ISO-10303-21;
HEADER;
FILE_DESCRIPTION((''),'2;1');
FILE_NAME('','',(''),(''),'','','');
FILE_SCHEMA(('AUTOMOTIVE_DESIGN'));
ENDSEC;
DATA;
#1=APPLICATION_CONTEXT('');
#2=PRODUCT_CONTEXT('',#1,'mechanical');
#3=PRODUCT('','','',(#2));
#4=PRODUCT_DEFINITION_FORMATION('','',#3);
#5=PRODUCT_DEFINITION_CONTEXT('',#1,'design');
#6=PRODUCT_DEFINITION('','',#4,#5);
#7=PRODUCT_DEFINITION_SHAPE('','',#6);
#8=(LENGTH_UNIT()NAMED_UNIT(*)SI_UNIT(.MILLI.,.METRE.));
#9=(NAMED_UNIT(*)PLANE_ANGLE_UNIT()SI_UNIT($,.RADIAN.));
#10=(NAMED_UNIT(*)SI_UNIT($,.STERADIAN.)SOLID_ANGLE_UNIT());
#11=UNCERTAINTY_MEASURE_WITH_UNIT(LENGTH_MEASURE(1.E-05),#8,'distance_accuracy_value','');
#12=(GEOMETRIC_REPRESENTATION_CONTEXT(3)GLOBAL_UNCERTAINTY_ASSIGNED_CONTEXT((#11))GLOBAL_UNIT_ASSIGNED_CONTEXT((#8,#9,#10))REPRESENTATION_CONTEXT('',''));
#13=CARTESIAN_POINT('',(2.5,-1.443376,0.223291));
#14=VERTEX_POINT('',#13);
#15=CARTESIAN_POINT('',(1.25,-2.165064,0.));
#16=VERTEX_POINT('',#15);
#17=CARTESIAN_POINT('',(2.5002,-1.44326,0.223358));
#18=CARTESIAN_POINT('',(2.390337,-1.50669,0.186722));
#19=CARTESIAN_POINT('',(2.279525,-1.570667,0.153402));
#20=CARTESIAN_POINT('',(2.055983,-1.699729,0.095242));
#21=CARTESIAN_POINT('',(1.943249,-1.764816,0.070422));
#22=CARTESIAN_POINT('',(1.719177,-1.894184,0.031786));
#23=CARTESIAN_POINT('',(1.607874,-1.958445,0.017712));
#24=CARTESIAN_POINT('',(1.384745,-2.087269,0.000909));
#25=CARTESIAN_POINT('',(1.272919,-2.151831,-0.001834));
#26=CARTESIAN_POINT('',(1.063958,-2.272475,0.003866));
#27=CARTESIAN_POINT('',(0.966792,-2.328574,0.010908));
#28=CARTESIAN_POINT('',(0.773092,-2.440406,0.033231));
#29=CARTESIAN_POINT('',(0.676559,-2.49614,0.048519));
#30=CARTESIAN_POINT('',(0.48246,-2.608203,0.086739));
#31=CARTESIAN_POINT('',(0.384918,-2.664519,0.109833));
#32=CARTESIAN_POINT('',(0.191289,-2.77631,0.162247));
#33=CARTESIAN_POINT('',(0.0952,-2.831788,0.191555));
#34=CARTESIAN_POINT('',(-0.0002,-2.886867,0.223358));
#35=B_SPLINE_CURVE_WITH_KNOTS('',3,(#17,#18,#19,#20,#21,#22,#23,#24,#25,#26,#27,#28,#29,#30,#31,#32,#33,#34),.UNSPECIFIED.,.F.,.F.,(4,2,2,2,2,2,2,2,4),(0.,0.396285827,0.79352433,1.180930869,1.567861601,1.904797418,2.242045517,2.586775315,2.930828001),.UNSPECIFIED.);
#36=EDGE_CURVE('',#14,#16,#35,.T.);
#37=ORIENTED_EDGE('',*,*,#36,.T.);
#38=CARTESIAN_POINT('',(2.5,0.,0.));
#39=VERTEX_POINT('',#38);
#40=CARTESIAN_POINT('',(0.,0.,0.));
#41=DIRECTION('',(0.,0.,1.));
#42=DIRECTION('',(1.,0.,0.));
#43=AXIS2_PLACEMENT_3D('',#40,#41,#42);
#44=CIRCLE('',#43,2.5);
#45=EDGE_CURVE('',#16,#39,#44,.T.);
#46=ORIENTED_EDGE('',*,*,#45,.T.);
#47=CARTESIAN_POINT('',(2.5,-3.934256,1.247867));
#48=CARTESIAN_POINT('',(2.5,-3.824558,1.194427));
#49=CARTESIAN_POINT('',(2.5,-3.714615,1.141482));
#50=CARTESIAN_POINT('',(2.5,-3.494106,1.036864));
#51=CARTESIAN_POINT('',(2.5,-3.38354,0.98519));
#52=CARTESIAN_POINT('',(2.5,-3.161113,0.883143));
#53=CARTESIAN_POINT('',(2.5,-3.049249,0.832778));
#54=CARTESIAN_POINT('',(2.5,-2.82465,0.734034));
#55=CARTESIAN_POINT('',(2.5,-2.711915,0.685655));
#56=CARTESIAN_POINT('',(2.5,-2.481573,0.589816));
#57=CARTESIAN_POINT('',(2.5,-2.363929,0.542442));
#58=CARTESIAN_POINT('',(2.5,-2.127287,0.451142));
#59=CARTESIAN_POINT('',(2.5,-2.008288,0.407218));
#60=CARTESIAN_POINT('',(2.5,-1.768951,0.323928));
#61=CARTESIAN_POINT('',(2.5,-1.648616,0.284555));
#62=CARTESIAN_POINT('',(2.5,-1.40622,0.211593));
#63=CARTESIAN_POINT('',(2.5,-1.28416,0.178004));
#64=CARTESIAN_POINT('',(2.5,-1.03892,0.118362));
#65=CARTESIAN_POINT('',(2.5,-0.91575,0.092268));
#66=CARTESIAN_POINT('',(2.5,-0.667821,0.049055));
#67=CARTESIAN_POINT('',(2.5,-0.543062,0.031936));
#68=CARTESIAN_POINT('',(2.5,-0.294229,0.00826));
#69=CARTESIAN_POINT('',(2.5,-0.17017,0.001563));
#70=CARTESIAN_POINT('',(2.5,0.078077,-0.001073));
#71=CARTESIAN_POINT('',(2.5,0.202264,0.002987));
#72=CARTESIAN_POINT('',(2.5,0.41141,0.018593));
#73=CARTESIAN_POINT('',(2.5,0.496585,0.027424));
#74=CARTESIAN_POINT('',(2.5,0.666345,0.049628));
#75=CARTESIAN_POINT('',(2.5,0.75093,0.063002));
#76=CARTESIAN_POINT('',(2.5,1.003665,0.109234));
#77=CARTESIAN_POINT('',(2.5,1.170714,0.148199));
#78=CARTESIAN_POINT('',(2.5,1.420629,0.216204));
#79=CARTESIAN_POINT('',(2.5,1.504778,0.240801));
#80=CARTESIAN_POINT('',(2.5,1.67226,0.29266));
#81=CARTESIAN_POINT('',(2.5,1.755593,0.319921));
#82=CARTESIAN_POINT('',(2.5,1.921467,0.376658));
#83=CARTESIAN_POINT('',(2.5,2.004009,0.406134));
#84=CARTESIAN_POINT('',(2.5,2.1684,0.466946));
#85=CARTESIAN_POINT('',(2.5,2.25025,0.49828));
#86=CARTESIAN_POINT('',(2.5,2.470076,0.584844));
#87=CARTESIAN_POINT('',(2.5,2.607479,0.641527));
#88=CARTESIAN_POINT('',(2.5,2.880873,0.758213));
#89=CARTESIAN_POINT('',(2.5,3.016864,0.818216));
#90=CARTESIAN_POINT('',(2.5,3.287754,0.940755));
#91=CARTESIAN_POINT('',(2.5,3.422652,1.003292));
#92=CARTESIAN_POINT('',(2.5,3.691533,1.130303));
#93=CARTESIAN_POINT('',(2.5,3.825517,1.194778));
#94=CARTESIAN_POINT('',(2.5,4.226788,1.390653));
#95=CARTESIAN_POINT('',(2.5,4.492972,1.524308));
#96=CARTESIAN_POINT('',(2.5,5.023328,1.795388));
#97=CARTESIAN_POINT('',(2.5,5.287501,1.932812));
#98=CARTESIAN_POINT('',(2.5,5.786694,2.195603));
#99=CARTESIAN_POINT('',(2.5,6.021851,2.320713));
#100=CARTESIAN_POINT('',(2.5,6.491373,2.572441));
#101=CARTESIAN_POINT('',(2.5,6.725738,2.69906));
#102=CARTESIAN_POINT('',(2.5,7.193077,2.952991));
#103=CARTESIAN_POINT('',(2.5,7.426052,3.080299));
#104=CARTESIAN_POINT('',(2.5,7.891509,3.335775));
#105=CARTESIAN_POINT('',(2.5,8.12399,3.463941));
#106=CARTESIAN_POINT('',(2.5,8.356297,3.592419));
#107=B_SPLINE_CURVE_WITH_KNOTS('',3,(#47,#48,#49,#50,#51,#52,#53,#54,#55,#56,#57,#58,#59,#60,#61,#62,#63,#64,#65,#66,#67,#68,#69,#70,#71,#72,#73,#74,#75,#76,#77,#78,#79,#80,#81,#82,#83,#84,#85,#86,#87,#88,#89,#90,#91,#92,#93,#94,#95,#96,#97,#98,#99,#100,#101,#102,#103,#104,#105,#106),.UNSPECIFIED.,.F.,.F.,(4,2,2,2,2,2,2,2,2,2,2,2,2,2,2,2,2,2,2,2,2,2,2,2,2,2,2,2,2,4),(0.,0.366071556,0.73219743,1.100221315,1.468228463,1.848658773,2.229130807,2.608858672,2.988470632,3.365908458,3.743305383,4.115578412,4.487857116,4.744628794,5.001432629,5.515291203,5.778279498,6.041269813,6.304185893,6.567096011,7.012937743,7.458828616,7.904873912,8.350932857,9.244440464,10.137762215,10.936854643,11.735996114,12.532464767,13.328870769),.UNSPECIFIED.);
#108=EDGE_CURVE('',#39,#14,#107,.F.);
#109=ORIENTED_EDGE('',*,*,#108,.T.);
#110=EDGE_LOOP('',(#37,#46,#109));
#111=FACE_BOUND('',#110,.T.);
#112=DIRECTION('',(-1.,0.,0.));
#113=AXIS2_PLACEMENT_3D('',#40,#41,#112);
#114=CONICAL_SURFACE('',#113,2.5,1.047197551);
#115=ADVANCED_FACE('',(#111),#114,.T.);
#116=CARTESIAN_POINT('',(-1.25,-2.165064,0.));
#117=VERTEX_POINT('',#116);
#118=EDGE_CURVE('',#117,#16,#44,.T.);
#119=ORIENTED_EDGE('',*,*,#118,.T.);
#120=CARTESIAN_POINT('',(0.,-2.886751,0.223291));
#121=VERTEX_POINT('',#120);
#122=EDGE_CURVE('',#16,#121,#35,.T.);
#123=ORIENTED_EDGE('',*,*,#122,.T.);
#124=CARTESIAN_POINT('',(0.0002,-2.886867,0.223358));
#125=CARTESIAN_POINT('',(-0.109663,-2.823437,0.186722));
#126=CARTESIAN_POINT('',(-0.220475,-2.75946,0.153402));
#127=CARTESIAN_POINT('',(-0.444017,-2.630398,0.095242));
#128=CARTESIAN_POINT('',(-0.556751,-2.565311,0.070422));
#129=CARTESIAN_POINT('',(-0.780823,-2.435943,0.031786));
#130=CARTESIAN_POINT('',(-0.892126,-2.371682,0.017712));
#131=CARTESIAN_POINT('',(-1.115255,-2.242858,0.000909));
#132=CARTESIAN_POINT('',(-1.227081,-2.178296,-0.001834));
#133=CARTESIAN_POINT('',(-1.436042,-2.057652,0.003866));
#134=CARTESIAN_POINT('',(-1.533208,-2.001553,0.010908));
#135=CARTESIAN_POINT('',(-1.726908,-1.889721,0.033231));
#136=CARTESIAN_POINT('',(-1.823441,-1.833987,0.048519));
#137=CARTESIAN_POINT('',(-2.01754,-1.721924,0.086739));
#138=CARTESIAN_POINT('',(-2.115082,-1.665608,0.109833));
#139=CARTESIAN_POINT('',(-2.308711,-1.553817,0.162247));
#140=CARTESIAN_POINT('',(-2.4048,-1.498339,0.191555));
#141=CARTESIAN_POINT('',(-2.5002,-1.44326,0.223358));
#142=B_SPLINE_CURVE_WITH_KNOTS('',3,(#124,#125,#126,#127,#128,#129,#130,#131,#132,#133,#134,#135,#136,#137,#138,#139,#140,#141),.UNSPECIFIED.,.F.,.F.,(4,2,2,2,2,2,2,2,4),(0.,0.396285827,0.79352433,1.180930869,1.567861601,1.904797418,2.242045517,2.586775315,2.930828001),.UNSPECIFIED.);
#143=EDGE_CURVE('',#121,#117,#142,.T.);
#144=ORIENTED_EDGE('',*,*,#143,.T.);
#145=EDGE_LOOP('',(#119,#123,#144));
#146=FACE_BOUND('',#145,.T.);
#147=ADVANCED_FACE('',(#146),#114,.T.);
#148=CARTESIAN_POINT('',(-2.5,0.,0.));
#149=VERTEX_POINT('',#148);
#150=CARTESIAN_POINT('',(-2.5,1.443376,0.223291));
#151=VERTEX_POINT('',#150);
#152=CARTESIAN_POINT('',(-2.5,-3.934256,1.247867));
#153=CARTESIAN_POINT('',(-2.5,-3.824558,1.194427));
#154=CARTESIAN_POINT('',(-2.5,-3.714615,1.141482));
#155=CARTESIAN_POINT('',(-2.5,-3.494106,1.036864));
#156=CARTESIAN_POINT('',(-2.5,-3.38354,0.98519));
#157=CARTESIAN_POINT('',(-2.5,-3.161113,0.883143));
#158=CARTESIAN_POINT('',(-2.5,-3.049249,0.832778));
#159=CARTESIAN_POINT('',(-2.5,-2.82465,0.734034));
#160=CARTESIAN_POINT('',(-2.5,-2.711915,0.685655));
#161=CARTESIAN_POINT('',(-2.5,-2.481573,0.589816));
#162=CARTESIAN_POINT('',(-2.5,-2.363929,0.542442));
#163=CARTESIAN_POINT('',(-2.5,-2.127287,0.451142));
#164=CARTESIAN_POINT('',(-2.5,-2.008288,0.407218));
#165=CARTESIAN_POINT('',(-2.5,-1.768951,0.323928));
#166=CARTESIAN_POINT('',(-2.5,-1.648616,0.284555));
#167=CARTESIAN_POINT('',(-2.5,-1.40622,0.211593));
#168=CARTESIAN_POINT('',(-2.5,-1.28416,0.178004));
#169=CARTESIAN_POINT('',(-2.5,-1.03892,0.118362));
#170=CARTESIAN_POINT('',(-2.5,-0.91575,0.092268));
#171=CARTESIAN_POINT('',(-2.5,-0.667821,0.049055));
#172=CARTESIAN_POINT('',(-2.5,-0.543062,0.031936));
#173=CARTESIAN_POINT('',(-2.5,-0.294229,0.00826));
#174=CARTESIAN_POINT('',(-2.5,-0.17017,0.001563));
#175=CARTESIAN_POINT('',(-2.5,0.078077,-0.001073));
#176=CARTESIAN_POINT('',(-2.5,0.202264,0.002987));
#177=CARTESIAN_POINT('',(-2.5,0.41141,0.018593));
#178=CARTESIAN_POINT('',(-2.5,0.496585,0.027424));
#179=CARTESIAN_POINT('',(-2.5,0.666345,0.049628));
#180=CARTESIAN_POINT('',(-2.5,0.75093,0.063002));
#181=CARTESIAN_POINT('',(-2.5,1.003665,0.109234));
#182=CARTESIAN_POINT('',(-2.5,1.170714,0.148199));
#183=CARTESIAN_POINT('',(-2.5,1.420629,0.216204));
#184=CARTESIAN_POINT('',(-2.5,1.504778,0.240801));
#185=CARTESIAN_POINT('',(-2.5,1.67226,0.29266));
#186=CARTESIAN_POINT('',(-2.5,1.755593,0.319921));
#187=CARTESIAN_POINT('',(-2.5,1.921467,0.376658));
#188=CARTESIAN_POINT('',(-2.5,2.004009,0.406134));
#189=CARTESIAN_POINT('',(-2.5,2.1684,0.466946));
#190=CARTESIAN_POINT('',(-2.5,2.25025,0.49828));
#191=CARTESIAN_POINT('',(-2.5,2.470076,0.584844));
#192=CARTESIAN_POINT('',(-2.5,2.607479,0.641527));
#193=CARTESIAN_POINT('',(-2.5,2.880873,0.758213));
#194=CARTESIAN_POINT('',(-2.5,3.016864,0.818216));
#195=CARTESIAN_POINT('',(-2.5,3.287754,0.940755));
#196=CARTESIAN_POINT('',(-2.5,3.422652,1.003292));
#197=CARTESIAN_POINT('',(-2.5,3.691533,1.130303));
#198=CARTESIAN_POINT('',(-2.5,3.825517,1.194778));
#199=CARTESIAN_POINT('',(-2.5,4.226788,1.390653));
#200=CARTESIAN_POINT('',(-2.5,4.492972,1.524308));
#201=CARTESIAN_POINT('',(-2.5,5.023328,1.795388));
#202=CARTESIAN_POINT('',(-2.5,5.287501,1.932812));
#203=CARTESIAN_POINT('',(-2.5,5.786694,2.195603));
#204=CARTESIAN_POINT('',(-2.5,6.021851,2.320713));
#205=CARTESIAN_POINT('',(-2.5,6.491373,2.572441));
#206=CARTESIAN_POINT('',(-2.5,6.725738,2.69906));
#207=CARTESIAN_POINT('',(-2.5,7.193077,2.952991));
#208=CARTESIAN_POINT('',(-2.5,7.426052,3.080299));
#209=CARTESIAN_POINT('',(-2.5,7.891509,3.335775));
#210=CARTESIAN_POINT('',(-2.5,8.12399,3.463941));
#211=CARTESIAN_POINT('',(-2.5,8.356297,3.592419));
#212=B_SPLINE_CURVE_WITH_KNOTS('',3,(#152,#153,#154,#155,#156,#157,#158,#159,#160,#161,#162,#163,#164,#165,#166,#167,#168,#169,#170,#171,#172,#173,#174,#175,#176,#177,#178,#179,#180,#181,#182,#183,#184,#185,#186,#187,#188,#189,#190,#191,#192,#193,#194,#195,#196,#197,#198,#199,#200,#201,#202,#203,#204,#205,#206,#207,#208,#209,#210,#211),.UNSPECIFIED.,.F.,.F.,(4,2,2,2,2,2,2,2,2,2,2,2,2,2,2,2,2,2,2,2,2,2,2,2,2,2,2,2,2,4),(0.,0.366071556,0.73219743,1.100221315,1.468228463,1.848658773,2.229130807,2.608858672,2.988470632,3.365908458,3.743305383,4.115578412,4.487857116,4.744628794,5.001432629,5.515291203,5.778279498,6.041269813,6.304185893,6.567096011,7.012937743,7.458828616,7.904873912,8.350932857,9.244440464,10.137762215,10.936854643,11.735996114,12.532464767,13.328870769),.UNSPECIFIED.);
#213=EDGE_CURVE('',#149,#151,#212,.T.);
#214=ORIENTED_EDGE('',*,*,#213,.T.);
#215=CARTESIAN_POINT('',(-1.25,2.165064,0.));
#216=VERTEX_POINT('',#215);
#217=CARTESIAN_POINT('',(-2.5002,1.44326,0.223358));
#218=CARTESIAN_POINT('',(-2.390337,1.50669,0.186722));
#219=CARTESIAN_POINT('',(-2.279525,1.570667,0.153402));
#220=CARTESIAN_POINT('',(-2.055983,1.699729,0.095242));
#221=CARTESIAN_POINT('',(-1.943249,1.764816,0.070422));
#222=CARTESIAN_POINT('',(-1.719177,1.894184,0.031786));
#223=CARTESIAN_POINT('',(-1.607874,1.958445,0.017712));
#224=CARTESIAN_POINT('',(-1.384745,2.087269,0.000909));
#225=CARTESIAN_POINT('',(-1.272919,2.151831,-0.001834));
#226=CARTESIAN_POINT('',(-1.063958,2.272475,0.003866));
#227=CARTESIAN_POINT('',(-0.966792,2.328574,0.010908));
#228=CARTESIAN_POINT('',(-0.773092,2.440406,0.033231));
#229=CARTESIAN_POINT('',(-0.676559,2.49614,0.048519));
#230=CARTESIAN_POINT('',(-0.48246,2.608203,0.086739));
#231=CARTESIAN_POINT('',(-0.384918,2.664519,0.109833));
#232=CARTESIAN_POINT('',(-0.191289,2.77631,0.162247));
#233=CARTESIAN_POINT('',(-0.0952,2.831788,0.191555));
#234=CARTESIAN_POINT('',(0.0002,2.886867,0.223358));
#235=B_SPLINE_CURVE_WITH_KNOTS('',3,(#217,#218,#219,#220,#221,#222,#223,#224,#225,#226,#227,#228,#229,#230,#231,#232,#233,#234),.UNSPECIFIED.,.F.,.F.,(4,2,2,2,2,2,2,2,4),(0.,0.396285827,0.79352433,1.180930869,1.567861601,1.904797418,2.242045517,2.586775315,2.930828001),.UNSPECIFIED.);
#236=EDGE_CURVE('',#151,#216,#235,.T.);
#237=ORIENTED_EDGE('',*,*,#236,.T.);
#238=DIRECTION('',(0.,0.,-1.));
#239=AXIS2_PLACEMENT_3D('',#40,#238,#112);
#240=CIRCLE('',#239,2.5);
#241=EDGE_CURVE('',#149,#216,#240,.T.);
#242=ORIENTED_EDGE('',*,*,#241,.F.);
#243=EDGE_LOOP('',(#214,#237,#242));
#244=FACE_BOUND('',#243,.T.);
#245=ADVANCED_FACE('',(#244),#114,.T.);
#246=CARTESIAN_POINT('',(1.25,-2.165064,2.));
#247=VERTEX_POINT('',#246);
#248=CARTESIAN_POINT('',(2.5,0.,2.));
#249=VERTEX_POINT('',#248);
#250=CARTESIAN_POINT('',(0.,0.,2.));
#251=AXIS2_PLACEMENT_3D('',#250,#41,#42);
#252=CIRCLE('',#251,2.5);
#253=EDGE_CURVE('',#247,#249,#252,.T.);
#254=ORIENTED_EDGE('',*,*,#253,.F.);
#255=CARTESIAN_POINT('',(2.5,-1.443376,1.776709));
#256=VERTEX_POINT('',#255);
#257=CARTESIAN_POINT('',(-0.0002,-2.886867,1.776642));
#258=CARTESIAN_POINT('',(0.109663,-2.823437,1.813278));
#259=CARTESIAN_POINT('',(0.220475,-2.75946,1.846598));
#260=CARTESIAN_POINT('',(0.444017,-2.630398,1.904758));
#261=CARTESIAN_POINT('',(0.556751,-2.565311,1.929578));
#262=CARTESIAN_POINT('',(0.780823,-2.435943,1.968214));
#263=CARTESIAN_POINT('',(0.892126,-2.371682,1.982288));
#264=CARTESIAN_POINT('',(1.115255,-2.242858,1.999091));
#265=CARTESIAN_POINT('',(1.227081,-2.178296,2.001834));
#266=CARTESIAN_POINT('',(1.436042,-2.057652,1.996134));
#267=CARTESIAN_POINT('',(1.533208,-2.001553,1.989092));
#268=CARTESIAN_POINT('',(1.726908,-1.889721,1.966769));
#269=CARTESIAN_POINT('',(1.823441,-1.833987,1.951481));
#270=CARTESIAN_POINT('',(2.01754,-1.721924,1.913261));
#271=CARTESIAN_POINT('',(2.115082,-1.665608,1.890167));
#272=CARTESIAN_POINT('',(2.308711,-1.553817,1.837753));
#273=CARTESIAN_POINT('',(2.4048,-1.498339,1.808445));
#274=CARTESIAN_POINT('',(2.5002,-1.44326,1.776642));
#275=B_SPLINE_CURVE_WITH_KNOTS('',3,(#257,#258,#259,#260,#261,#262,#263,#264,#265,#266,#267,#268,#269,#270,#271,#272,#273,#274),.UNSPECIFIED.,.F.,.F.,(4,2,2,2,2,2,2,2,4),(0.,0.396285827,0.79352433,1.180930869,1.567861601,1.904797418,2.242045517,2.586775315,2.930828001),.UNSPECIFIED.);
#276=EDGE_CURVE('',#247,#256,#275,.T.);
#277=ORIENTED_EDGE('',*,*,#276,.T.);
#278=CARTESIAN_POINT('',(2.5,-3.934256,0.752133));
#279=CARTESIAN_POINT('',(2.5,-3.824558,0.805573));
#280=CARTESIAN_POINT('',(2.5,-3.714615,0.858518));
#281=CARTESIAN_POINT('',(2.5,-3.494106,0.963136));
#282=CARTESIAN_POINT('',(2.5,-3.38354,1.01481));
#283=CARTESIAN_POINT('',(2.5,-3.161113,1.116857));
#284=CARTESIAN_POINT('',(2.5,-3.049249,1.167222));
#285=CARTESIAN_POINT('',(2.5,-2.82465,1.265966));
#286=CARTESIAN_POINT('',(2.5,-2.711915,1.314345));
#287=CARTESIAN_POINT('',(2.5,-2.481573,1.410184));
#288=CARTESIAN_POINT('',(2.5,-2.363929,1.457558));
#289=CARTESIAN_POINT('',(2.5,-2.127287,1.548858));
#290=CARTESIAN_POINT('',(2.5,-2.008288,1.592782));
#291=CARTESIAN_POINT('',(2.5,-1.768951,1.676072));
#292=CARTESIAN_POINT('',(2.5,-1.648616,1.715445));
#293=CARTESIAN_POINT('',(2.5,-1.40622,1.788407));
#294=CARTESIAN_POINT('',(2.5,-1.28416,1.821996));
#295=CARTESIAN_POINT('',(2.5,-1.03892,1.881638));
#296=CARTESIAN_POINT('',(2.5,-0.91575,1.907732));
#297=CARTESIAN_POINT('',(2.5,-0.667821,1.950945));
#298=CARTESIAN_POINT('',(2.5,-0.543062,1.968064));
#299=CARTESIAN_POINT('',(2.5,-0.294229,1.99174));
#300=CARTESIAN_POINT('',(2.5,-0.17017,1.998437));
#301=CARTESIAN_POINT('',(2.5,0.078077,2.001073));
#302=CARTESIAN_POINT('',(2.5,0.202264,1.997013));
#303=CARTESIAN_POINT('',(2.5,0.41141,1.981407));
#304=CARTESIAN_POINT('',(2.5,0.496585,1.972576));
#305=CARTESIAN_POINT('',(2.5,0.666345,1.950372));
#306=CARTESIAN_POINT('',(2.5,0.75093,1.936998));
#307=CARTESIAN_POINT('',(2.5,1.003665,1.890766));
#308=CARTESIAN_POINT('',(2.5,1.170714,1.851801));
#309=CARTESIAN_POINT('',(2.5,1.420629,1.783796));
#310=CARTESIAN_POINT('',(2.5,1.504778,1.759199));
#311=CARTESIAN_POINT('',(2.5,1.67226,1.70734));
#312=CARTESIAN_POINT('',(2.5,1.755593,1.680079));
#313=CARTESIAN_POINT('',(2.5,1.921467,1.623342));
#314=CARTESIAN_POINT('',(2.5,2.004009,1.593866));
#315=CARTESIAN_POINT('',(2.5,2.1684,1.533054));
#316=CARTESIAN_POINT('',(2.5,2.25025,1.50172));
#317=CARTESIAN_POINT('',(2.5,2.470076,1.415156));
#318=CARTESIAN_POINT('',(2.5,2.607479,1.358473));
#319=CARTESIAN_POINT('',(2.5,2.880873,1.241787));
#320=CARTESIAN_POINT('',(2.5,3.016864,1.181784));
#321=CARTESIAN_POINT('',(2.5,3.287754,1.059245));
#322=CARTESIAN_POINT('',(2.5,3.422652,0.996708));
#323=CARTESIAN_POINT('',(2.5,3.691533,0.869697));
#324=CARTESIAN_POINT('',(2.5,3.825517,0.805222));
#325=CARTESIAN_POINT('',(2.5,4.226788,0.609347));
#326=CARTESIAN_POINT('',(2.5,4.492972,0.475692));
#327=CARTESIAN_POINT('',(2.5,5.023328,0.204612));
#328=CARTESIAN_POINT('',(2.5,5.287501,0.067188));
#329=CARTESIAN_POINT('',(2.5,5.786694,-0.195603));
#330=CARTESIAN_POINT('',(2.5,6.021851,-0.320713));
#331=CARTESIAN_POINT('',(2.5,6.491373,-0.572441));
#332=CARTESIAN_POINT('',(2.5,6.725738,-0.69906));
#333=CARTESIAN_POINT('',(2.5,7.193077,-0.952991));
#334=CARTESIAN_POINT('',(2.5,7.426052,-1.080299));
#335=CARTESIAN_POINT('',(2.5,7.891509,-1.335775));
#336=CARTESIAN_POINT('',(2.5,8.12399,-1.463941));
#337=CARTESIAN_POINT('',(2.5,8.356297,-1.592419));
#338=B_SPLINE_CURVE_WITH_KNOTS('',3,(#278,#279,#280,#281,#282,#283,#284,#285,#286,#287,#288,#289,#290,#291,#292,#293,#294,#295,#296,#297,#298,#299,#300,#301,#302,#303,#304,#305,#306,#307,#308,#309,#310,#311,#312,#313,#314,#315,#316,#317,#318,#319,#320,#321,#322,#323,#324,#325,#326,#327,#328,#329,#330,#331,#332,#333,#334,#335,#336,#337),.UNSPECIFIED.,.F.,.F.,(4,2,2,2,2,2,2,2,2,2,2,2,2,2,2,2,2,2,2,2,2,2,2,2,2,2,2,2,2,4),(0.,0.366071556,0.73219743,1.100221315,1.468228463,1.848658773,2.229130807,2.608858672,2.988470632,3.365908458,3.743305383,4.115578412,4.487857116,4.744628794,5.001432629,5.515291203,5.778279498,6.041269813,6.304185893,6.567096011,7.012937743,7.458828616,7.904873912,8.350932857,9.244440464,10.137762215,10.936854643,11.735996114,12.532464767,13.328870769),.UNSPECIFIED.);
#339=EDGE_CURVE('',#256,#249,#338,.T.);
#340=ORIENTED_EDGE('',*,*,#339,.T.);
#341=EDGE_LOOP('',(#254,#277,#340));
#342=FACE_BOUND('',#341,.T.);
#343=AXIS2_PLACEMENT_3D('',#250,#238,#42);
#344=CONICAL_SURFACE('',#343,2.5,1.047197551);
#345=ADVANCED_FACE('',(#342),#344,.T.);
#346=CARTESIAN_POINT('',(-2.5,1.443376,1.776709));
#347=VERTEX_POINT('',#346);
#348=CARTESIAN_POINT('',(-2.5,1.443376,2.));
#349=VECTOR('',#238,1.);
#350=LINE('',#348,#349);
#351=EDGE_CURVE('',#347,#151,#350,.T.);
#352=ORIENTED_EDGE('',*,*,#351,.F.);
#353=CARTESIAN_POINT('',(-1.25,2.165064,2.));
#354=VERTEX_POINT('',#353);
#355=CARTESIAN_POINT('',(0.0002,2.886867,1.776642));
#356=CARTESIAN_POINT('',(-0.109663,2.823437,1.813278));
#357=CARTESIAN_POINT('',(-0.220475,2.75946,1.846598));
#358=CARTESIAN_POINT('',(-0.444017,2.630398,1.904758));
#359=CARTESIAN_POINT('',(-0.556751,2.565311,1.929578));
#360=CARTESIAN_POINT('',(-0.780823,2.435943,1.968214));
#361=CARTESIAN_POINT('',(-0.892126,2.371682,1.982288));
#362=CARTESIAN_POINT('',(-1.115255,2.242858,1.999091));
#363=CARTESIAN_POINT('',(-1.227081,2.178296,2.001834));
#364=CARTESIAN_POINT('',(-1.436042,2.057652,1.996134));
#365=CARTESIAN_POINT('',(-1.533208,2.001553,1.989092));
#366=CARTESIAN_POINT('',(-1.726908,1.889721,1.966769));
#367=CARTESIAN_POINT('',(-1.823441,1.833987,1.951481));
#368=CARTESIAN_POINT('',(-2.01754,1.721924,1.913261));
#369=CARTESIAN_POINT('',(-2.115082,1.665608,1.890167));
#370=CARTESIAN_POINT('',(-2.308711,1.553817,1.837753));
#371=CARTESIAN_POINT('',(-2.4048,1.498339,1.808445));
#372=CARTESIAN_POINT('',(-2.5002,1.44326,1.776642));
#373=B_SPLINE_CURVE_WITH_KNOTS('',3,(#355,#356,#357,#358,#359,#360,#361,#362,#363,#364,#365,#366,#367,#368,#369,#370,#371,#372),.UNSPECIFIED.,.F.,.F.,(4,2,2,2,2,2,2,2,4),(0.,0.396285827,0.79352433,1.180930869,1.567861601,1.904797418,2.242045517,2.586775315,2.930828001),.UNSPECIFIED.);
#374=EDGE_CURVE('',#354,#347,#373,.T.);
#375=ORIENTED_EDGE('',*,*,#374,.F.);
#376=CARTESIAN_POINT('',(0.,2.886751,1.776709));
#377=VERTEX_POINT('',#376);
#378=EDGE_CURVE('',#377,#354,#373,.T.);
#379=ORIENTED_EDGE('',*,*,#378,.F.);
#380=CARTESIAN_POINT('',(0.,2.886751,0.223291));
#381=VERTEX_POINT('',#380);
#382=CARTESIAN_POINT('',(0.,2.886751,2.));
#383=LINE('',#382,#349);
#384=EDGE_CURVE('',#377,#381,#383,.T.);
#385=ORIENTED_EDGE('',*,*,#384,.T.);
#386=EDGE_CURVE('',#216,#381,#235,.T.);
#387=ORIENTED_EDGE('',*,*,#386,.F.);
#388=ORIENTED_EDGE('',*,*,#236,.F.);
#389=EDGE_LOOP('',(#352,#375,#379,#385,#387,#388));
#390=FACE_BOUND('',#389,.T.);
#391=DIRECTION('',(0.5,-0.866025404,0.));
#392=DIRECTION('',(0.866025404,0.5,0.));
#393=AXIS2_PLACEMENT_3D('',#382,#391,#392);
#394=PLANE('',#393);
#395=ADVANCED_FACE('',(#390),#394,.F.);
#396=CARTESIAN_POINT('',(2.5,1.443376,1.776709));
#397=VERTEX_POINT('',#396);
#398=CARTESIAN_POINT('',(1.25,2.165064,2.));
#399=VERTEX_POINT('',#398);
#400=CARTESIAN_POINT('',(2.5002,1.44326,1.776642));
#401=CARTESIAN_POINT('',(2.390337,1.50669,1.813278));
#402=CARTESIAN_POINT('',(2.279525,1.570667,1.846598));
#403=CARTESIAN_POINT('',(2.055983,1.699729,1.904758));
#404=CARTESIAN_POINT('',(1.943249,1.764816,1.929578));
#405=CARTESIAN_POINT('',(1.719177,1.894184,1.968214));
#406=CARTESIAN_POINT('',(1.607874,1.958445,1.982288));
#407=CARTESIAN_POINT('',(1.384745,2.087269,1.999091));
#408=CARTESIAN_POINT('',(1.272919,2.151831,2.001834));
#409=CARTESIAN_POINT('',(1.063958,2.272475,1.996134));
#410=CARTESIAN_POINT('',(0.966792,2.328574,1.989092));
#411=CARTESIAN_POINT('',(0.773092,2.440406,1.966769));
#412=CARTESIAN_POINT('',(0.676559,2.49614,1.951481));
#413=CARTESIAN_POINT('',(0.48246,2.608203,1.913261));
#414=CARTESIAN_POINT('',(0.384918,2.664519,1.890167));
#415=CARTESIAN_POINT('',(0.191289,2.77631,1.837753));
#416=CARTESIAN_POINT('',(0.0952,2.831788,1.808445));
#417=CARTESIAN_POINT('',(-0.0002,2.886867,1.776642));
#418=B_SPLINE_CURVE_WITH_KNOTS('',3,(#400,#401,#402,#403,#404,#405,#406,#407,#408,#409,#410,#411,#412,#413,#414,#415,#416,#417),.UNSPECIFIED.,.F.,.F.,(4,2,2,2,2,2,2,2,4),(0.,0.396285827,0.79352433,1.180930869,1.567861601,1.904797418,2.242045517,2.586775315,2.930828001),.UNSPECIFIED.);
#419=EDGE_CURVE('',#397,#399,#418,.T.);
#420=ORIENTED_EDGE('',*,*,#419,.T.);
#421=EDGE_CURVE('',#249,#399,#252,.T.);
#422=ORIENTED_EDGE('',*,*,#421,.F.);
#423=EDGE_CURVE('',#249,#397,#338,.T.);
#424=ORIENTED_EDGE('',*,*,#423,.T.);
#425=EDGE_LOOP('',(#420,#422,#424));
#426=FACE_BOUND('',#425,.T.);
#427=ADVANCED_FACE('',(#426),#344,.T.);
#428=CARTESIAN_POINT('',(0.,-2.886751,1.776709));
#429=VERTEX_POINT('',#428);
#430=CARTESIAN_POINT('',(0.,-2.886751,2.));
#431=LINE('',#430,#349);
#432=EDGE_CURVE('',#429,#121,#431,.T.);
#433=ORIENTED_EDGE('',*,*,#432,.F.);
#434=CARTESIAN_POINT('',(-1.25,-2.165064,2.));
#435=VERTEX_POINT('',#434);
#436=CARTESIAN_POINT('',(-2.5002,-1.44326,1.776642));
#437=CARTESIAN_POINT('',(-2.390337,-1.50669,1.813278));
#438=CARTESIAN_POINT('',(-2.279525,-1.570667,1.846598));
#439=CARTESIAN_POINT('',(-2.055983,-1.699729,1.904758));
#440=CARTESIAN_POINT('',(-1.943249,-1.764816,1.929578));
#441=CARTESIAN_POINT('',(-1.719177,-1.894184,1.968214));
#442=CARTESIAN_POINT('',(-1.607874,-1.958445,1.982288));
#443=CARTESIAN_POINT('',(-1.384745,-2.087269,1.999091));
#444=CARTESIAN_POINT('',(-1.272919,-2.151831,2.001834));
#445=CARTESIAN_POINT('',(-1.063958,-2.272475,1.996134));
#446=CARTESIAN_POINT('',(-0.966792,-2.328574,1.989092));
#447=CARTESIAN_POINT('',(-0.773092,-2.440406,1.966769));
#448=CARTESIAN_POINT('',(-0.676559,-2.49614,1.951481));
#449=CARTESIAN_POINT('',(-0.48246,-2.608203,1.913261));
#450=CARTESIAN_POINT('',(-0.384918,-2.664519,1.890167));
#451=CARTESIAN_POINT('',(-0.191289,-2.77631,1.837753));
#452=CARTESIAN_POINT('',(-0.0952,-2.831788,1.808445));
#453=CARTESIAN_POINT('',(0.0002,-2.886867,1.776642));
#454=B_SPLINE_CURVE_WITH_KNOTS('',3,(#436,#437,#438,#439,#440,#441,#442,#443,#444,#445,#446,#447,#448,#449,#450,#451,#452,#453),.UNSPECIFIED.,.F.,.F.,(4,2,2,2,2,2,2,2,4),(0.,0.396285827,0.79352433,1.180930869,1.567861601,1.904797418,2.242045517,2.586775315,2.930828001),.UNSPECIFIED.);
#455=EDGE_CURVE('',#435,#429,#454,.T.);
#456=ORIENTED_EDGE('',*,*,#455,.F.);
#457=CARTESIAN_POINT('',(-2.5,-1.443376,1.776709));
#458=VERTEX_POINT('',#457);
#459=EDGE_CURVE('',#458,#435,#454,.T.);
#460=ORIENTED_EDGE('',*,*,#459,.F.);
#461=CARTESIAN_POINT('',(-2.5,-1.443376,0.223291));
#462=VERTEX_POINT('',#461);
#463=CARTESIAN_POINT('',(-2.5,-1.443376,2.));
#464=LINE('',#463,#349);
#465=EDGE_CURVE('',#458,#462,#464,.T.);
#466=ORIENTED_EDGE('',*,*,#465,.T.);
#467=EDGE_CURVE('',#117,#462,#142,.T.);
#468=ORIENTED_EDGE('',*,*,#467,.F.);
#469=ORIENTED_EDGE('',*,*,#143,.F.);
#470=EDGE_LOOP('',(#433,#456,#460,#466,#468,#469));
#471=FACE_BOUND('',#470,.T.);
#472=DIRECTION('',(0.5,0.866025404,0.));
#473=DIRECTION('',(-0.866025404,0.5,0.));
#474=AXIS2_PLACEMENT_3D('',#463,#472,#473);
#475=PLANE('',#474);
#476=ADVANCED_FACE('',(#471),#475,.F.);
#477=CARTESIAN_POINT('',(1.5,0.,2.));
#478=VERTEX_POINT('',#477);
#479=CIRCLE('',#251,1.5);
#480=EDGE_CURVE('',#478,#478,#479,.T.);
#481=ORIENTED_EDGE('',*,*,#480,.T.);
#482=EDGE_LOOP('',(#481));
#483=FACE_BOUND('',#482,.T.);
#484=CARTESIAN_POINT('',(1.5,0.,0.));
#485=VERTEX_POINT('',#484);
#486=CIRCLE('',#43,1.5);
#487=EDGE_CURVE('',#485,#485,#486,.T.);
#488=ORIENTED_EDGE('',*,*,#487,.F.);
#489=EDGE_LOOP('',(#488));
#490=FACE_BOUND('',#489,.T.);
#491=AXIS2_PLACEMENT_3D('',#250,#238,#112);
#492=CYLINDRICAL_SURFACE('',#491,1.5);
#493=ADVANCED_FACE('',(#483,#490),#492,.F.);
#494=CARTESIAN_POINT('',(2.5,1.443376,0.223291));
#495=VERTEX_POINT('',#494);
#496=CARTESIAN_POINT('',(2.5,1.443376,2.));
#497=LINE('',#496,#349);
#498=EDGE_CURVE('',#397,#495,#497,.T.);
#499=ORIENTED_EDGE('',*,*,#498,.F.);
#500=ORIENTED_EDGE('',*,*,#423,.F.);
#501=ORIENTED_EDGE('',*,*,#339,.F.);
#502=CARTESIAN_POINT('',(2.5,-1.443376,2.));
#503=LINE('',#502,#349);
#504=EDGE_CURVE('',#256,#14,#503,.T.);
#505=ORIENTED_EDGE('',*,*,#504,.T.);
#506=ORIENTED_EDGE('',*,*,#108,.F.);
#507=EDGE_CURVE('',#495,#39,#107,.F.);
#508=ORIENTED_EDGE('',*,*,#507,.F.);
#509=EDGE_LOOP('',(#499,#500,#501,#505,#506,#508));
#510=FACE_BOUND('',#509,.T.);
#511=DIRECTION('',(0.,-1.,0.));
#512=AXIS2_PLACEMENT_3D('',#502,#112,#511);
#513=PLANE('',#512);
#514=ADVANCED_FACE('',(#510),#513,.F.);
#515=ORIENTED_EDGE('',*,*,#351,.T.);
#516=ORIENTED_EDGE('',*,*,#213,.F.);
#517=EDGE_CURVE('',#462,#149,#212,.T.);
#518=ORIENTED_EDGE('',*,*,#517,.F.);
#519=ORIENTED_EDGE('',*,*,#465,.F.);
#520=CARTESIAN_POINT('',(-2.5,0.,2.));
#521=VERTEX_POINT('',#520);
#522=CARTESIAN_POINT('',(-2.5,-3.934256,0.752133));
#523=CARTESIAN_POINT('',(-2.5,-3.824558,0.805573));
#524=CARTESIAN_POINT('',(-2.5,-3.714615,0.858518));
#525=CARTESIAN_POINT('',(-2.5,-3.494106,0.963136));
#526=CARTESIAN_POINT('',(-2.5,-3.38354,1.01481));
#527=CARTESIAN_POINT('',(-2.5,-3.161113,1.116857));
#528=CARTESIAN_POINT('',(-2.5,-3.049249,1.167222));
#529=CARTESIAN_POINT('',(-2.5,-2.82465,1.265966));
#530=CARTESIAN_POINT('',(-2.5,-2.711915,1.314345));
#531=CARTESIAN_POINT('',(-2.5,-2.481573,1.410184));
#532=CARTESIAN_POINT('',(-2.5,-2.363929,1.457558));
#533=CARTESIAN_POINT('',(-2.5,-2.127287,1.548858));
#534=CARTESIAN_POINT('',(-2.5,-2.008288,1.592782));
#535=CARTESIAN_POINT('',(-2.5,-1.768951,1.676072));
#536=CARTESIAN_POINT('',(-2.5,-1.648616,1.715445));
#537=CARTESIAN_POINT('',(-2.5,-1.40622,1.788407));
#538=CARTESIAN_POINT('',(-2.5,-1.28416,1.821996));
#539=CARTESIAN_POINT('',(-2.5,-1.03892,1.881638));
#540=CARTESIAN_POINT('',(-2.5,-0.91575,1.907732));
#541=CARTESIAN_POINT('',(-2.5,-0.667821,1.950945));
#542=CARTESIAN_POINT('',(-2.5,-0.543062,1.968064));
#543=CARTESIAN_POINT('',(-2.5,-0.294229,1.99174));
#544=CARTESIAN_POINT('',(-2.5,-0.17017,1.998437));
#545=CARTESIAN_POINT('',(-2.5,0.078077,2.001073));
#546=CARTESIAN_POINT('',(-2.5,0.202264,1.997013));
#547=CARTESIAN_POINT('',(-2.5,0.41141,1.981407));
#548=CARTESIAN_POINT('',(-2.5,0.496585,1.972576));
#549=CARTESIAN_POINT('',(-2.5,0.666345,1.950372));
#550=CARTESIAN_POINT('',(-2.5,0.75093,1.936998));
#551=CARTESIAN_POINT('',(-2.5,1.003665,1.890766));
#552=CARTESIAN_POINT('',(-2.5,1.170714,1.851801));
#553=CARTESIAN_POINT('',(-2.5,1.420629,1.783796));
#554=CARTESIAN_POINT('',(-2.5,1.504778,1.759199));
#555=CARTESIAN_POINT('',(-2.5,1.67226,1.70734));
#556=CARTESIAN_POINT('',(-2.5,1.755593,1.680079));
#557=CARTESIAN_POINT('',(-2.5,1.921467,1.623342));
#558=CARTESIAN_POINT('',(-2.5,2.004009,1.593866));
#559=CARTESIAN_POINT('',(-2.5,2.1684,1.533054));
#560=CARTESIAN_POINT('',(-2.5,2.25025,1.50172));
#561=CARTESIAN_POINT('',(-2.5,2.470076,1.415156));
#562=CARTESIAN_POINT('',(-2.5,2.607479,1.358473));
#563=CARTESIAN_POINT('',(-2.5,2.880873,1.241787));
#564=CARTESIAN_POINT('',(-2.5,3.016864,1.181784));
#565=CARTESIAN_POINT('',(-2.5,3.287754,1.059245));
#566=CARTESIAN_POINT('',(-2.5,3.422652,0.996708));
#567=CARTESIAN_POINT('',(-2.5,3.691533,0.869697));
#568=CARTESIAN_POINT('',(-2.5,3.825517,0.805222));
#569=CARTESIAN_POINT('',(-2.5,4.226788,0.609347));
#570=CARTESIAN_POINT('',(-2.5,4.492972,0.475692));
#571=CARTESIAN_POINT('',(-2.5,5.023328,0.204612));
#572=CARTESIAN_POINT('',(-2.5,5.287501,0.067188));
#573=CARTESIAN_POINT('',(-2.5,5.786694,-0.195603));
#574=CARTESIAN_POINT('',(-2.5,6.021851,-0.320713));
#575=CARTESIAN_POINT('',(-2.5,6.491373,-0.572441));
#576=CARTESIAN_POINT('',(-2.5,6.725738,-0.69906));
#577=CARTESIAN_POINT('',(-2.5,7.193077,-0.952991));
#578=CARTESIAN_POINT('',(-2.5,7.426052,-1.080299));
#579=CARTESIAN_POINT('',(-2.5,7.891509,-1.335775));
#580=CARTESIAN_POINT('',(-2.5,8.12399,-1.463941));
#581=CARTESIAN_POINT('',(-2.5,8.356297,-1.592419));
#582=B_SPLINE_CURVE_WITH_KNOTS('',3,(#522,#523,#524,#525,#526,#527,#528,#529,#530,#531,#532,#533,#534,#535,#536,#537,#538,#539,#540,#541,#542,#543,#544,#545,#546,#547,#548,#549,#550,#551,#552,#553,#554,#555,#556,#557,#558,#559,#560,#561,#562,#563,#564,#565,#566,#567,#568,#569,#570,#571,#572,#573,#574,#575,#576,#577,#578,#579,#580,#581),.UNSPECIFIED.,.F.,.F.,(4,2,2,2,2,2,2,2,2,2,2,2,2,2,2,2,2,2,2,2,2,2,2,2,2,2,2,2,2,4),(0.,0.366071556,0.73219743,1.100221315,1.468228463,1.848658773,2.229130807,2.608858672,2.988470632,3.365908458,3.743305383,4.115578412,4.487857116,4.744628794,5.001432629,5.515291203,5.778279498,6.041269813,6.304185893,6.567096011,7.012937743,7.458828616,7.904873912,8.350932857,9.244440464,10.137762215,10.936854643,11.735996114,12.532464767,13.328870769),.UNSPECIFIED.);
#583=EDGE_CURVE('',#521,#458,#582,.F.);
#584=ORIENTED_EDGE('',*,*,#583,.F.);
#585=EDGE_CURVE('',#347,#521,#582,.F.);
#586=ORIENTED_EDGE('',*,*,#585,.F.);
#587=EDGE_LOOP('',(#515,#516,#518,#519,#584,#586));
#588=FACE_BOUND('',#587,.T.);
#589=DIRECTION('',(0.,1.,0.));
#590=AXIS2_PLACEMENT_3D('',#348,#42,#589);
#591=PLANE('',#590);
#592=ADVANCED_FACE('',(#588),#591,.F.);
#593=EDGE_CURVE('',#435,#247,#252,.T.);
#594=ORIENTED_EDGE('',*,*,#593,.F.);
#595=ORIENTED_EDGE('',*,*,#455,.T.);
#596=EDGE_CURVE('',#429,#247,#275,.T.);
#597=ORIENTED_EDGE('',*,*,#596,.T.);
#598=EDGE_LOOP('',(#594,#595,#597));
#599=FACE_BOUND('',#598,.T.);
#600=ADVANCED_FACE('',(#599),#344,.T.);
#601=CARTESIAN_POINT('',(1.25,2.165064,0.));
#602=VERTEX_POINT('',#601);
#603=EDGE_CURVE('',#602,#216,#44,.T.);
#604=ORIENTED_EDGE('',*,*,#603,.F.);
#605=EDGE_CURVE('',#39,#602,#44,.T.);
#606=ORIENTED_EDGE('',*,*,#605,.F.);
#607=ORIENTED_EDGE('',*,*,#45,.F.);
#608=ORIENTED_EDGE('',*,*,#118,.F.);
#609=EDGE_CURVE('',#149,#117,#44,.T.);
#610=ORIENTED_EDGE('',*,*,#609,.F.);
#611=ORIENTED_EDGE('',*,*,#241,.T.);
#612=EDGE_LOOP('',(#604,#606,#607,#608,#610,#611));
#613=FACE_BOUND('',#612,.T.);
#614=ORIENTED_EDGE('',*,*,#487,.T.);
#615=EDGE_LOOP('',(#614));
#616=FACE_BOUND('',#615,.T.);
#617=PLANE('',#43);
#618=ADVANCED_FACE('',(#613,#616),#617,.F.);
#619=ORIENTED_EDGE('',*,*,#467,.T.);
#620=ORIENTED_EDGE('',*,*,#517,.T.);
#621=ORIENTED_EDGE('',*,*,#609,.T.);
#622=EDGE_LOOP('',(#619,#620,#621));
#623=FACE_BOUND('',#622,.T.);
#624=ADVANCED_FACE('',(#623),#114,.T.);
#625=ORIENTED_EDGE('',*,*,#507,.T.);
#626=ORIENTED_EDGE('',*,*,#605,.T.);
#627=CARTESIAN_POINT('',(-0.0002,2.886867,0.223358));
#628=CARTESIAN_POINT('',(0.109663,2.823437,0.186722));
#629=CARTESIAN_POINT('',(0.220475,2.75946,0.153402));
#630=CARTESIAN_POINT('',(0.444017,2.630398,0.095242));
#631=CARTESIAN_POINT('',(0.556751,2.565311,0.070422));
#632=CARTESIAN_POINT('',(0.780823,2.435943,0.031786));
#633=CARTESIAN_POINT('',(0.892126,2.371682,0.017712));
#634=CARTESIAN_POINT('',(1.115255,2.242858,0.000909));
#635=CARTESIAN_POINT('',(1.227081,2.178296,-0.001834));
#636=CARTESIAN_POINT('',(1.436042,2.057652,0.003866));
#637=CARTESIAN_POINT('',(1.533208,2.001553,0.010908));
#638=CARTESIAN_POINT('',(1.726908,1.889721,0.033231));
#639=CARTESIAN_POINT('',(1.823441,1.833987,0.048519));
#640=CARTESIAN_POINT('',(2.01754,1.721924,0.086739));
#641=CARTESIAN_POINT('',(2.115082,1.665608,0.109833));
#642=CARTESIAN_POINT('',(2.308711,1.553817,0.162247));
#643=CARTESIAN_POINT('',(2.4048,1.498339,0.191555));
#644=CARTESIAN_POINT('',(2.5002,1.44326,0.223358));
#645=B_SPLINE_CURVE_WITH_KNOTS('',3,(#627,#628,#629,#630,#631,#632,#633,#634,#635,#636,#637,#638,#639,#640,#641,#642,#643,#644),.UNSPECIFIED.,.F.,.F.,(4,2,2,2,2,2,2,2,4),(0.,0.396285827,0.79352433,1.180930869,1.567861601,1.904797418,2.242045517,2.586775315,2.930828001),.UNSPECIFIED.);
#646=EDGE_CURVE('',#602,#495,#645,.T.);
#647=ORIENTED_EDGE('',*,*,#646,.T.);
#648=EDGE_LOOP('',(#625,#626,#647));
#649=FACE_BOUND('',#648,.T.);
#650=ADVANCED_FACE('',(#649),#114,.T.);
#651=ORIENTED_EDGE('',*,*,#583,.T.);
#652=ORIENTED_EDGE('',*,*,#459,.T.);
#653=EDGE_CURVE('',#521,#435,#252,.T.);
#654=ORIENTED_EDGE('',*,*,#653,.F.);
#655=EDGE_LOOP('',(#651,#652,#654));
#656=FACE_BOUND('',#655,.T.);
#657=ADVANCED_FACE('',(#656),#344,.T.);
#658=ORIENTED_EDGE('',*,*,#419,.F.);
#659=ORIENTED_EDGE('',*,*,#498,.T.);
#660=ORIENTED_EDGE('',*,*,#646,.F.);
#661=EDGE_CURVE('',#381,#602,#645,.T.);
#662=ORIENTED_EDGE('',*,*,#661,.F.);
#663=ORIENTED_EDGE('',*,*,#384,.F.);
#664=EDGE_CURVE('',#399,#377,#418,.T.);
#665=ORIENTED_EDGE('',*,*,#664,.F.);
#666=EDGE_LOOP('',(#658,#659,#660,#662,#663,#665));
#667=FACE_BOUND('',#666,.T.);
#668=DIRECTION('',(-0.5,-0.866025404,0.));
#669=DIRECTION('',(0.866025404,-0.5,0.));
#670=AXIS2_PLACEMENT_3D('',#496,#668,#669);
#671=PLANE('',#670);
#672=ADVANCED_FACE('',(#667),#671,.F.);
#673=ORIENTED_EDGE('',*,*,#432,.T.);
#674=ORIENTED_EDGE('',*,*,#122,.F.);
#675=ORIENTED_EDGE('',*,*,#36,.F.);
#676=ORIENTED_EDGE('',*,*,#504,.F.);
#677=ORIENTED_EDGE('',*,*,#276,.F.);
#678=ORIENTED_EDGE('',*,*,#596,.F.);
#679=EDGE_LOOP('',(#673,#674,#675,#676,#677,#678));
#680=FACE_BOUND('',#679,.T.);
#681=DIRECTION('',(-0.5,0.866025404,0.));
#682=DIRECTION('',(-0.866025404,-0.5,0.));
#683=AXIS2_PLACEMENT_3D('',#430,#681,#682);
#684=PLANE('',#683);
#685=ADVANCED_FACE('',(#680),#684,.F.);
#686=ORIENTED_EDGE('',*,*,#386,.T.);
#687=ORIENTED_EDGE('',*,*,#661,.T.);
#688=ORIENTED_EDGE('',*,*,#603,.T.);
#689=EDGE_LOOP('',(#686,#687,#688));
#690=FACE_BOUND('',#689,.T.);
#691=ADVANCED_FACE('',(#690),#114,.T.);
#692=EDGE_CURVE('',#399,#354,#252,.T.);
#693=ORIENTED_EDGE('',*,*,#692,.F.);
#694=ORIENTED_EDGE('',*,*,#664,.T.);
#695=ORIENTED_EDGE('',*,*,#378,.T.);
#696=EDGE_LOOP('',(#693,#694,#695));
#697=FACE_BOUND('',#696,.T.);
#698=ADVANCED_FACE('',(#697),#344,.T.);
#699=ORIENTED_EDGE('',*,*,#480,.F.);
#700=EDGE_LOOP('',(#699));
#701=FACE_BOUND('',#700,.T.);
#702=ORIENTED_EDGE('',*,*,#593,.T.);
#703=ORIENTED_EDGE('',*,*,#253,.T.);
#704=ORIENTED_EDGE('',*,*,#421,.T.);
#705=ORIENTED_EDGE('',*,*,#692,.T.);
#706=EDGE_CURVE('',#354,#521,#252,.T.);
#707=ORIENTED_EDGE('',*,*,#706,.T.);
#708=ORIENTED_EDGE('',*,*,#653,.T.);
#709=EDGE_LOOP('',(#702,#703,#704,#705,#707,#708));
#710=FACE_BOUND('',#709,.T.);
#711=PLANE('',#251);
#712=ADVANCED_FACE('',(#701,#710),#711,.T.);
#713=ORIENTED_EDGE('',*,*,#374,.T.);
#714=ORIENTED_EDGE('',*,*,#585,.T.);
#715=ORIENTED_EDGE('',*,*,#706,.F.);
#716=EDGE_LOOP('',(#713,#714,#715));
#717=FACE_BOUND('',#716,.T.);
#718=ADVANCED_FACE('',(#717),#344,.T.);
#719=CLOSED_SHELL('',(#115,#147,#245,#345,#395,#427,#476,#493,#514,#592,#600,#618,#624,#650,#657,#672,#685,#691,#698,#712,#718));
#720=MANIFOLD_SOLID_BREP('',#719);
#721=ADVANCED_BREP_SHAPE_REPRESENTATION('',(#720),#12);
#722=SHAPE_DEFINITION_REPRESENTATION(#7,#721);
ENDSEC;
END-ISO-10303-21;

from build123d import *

# Parameters (mm, degrees)
SKETCH1_R           = 1.5
BOSS_EXTRUDE1_DEPTH = 2
SKETCH2_OUTSIDE_W   = 15.508
SKETCH2_OUTSIDE_H   = 16.282
SKETCH2_OUTSIDE_R   = 2.5
CUT_EXTRUDE1_DEPTH  = 2
CUT_EXTRUDE1_TAPER  = 60
SKETCH3_OUTSIDE_W   = 15.508
SKETCH3_OUTSIDE_H   = 16.282
SKETCH3_OUTSIDE_R   = 2.5
CUT_EXTRUDE2_DEPTH  = 2
CUT_EXTRUDE2_TAPER  = 60


with BuildPart() as part:
    # Sketch1 → Boss-Extrude1 (new body)
    with BuildSketch(Plane.XY):
        Polygon((0, -2.886751346), (2.5, -1.443375673), (2.5, 1.443375673), (0, 2.886751346), (-2.5, 1.443375673), (-2.5, -1.443375673), align=None)
        Circle(SKETCH1_R, mode=Mode.SUBTRACT)
    extrude(amount=BOSS_EXTRUDE1_DEPTH)

    # Sketch2 outside → Cut-Extrude1 (cut)
    with BuildSketch(Plane.XY.offset(2)):
        Rectangle(SKETCH2_OUTSIDE_W, SKETCH2_OUTSIDE_H)
        Circle(SKETCH2_OUTSIDE_R, mode=Mode.SUBTRACT)
    extrude(amount=-CUT_EXTRUDE1_DEPTH, taper=CUT_EXTRUDE1_TAPER, mode=Mode.SUBTRACT)

    # Sketch3 outside → Cut-Extrude2 (cut)
    with BuildSketch(Plane(origin=(0, 0, 0), x_dir=(-1, 0, 0), z_dir=(0, 0, -1))):
        Rectangle(SKETCH3_OUTSIDE_W, SKETCH3_OUTSIDE_H)
        Circle(SKETCH3_OUTSIDE_R, mode=Mode.SUBTRACT)
    extrude(amount=-CUT_EXTRUDE2_DEPTH, taper=CUT_EXTRUDE2_TAPER, mode=Mode.SUBTRACT)


solid = part.part
